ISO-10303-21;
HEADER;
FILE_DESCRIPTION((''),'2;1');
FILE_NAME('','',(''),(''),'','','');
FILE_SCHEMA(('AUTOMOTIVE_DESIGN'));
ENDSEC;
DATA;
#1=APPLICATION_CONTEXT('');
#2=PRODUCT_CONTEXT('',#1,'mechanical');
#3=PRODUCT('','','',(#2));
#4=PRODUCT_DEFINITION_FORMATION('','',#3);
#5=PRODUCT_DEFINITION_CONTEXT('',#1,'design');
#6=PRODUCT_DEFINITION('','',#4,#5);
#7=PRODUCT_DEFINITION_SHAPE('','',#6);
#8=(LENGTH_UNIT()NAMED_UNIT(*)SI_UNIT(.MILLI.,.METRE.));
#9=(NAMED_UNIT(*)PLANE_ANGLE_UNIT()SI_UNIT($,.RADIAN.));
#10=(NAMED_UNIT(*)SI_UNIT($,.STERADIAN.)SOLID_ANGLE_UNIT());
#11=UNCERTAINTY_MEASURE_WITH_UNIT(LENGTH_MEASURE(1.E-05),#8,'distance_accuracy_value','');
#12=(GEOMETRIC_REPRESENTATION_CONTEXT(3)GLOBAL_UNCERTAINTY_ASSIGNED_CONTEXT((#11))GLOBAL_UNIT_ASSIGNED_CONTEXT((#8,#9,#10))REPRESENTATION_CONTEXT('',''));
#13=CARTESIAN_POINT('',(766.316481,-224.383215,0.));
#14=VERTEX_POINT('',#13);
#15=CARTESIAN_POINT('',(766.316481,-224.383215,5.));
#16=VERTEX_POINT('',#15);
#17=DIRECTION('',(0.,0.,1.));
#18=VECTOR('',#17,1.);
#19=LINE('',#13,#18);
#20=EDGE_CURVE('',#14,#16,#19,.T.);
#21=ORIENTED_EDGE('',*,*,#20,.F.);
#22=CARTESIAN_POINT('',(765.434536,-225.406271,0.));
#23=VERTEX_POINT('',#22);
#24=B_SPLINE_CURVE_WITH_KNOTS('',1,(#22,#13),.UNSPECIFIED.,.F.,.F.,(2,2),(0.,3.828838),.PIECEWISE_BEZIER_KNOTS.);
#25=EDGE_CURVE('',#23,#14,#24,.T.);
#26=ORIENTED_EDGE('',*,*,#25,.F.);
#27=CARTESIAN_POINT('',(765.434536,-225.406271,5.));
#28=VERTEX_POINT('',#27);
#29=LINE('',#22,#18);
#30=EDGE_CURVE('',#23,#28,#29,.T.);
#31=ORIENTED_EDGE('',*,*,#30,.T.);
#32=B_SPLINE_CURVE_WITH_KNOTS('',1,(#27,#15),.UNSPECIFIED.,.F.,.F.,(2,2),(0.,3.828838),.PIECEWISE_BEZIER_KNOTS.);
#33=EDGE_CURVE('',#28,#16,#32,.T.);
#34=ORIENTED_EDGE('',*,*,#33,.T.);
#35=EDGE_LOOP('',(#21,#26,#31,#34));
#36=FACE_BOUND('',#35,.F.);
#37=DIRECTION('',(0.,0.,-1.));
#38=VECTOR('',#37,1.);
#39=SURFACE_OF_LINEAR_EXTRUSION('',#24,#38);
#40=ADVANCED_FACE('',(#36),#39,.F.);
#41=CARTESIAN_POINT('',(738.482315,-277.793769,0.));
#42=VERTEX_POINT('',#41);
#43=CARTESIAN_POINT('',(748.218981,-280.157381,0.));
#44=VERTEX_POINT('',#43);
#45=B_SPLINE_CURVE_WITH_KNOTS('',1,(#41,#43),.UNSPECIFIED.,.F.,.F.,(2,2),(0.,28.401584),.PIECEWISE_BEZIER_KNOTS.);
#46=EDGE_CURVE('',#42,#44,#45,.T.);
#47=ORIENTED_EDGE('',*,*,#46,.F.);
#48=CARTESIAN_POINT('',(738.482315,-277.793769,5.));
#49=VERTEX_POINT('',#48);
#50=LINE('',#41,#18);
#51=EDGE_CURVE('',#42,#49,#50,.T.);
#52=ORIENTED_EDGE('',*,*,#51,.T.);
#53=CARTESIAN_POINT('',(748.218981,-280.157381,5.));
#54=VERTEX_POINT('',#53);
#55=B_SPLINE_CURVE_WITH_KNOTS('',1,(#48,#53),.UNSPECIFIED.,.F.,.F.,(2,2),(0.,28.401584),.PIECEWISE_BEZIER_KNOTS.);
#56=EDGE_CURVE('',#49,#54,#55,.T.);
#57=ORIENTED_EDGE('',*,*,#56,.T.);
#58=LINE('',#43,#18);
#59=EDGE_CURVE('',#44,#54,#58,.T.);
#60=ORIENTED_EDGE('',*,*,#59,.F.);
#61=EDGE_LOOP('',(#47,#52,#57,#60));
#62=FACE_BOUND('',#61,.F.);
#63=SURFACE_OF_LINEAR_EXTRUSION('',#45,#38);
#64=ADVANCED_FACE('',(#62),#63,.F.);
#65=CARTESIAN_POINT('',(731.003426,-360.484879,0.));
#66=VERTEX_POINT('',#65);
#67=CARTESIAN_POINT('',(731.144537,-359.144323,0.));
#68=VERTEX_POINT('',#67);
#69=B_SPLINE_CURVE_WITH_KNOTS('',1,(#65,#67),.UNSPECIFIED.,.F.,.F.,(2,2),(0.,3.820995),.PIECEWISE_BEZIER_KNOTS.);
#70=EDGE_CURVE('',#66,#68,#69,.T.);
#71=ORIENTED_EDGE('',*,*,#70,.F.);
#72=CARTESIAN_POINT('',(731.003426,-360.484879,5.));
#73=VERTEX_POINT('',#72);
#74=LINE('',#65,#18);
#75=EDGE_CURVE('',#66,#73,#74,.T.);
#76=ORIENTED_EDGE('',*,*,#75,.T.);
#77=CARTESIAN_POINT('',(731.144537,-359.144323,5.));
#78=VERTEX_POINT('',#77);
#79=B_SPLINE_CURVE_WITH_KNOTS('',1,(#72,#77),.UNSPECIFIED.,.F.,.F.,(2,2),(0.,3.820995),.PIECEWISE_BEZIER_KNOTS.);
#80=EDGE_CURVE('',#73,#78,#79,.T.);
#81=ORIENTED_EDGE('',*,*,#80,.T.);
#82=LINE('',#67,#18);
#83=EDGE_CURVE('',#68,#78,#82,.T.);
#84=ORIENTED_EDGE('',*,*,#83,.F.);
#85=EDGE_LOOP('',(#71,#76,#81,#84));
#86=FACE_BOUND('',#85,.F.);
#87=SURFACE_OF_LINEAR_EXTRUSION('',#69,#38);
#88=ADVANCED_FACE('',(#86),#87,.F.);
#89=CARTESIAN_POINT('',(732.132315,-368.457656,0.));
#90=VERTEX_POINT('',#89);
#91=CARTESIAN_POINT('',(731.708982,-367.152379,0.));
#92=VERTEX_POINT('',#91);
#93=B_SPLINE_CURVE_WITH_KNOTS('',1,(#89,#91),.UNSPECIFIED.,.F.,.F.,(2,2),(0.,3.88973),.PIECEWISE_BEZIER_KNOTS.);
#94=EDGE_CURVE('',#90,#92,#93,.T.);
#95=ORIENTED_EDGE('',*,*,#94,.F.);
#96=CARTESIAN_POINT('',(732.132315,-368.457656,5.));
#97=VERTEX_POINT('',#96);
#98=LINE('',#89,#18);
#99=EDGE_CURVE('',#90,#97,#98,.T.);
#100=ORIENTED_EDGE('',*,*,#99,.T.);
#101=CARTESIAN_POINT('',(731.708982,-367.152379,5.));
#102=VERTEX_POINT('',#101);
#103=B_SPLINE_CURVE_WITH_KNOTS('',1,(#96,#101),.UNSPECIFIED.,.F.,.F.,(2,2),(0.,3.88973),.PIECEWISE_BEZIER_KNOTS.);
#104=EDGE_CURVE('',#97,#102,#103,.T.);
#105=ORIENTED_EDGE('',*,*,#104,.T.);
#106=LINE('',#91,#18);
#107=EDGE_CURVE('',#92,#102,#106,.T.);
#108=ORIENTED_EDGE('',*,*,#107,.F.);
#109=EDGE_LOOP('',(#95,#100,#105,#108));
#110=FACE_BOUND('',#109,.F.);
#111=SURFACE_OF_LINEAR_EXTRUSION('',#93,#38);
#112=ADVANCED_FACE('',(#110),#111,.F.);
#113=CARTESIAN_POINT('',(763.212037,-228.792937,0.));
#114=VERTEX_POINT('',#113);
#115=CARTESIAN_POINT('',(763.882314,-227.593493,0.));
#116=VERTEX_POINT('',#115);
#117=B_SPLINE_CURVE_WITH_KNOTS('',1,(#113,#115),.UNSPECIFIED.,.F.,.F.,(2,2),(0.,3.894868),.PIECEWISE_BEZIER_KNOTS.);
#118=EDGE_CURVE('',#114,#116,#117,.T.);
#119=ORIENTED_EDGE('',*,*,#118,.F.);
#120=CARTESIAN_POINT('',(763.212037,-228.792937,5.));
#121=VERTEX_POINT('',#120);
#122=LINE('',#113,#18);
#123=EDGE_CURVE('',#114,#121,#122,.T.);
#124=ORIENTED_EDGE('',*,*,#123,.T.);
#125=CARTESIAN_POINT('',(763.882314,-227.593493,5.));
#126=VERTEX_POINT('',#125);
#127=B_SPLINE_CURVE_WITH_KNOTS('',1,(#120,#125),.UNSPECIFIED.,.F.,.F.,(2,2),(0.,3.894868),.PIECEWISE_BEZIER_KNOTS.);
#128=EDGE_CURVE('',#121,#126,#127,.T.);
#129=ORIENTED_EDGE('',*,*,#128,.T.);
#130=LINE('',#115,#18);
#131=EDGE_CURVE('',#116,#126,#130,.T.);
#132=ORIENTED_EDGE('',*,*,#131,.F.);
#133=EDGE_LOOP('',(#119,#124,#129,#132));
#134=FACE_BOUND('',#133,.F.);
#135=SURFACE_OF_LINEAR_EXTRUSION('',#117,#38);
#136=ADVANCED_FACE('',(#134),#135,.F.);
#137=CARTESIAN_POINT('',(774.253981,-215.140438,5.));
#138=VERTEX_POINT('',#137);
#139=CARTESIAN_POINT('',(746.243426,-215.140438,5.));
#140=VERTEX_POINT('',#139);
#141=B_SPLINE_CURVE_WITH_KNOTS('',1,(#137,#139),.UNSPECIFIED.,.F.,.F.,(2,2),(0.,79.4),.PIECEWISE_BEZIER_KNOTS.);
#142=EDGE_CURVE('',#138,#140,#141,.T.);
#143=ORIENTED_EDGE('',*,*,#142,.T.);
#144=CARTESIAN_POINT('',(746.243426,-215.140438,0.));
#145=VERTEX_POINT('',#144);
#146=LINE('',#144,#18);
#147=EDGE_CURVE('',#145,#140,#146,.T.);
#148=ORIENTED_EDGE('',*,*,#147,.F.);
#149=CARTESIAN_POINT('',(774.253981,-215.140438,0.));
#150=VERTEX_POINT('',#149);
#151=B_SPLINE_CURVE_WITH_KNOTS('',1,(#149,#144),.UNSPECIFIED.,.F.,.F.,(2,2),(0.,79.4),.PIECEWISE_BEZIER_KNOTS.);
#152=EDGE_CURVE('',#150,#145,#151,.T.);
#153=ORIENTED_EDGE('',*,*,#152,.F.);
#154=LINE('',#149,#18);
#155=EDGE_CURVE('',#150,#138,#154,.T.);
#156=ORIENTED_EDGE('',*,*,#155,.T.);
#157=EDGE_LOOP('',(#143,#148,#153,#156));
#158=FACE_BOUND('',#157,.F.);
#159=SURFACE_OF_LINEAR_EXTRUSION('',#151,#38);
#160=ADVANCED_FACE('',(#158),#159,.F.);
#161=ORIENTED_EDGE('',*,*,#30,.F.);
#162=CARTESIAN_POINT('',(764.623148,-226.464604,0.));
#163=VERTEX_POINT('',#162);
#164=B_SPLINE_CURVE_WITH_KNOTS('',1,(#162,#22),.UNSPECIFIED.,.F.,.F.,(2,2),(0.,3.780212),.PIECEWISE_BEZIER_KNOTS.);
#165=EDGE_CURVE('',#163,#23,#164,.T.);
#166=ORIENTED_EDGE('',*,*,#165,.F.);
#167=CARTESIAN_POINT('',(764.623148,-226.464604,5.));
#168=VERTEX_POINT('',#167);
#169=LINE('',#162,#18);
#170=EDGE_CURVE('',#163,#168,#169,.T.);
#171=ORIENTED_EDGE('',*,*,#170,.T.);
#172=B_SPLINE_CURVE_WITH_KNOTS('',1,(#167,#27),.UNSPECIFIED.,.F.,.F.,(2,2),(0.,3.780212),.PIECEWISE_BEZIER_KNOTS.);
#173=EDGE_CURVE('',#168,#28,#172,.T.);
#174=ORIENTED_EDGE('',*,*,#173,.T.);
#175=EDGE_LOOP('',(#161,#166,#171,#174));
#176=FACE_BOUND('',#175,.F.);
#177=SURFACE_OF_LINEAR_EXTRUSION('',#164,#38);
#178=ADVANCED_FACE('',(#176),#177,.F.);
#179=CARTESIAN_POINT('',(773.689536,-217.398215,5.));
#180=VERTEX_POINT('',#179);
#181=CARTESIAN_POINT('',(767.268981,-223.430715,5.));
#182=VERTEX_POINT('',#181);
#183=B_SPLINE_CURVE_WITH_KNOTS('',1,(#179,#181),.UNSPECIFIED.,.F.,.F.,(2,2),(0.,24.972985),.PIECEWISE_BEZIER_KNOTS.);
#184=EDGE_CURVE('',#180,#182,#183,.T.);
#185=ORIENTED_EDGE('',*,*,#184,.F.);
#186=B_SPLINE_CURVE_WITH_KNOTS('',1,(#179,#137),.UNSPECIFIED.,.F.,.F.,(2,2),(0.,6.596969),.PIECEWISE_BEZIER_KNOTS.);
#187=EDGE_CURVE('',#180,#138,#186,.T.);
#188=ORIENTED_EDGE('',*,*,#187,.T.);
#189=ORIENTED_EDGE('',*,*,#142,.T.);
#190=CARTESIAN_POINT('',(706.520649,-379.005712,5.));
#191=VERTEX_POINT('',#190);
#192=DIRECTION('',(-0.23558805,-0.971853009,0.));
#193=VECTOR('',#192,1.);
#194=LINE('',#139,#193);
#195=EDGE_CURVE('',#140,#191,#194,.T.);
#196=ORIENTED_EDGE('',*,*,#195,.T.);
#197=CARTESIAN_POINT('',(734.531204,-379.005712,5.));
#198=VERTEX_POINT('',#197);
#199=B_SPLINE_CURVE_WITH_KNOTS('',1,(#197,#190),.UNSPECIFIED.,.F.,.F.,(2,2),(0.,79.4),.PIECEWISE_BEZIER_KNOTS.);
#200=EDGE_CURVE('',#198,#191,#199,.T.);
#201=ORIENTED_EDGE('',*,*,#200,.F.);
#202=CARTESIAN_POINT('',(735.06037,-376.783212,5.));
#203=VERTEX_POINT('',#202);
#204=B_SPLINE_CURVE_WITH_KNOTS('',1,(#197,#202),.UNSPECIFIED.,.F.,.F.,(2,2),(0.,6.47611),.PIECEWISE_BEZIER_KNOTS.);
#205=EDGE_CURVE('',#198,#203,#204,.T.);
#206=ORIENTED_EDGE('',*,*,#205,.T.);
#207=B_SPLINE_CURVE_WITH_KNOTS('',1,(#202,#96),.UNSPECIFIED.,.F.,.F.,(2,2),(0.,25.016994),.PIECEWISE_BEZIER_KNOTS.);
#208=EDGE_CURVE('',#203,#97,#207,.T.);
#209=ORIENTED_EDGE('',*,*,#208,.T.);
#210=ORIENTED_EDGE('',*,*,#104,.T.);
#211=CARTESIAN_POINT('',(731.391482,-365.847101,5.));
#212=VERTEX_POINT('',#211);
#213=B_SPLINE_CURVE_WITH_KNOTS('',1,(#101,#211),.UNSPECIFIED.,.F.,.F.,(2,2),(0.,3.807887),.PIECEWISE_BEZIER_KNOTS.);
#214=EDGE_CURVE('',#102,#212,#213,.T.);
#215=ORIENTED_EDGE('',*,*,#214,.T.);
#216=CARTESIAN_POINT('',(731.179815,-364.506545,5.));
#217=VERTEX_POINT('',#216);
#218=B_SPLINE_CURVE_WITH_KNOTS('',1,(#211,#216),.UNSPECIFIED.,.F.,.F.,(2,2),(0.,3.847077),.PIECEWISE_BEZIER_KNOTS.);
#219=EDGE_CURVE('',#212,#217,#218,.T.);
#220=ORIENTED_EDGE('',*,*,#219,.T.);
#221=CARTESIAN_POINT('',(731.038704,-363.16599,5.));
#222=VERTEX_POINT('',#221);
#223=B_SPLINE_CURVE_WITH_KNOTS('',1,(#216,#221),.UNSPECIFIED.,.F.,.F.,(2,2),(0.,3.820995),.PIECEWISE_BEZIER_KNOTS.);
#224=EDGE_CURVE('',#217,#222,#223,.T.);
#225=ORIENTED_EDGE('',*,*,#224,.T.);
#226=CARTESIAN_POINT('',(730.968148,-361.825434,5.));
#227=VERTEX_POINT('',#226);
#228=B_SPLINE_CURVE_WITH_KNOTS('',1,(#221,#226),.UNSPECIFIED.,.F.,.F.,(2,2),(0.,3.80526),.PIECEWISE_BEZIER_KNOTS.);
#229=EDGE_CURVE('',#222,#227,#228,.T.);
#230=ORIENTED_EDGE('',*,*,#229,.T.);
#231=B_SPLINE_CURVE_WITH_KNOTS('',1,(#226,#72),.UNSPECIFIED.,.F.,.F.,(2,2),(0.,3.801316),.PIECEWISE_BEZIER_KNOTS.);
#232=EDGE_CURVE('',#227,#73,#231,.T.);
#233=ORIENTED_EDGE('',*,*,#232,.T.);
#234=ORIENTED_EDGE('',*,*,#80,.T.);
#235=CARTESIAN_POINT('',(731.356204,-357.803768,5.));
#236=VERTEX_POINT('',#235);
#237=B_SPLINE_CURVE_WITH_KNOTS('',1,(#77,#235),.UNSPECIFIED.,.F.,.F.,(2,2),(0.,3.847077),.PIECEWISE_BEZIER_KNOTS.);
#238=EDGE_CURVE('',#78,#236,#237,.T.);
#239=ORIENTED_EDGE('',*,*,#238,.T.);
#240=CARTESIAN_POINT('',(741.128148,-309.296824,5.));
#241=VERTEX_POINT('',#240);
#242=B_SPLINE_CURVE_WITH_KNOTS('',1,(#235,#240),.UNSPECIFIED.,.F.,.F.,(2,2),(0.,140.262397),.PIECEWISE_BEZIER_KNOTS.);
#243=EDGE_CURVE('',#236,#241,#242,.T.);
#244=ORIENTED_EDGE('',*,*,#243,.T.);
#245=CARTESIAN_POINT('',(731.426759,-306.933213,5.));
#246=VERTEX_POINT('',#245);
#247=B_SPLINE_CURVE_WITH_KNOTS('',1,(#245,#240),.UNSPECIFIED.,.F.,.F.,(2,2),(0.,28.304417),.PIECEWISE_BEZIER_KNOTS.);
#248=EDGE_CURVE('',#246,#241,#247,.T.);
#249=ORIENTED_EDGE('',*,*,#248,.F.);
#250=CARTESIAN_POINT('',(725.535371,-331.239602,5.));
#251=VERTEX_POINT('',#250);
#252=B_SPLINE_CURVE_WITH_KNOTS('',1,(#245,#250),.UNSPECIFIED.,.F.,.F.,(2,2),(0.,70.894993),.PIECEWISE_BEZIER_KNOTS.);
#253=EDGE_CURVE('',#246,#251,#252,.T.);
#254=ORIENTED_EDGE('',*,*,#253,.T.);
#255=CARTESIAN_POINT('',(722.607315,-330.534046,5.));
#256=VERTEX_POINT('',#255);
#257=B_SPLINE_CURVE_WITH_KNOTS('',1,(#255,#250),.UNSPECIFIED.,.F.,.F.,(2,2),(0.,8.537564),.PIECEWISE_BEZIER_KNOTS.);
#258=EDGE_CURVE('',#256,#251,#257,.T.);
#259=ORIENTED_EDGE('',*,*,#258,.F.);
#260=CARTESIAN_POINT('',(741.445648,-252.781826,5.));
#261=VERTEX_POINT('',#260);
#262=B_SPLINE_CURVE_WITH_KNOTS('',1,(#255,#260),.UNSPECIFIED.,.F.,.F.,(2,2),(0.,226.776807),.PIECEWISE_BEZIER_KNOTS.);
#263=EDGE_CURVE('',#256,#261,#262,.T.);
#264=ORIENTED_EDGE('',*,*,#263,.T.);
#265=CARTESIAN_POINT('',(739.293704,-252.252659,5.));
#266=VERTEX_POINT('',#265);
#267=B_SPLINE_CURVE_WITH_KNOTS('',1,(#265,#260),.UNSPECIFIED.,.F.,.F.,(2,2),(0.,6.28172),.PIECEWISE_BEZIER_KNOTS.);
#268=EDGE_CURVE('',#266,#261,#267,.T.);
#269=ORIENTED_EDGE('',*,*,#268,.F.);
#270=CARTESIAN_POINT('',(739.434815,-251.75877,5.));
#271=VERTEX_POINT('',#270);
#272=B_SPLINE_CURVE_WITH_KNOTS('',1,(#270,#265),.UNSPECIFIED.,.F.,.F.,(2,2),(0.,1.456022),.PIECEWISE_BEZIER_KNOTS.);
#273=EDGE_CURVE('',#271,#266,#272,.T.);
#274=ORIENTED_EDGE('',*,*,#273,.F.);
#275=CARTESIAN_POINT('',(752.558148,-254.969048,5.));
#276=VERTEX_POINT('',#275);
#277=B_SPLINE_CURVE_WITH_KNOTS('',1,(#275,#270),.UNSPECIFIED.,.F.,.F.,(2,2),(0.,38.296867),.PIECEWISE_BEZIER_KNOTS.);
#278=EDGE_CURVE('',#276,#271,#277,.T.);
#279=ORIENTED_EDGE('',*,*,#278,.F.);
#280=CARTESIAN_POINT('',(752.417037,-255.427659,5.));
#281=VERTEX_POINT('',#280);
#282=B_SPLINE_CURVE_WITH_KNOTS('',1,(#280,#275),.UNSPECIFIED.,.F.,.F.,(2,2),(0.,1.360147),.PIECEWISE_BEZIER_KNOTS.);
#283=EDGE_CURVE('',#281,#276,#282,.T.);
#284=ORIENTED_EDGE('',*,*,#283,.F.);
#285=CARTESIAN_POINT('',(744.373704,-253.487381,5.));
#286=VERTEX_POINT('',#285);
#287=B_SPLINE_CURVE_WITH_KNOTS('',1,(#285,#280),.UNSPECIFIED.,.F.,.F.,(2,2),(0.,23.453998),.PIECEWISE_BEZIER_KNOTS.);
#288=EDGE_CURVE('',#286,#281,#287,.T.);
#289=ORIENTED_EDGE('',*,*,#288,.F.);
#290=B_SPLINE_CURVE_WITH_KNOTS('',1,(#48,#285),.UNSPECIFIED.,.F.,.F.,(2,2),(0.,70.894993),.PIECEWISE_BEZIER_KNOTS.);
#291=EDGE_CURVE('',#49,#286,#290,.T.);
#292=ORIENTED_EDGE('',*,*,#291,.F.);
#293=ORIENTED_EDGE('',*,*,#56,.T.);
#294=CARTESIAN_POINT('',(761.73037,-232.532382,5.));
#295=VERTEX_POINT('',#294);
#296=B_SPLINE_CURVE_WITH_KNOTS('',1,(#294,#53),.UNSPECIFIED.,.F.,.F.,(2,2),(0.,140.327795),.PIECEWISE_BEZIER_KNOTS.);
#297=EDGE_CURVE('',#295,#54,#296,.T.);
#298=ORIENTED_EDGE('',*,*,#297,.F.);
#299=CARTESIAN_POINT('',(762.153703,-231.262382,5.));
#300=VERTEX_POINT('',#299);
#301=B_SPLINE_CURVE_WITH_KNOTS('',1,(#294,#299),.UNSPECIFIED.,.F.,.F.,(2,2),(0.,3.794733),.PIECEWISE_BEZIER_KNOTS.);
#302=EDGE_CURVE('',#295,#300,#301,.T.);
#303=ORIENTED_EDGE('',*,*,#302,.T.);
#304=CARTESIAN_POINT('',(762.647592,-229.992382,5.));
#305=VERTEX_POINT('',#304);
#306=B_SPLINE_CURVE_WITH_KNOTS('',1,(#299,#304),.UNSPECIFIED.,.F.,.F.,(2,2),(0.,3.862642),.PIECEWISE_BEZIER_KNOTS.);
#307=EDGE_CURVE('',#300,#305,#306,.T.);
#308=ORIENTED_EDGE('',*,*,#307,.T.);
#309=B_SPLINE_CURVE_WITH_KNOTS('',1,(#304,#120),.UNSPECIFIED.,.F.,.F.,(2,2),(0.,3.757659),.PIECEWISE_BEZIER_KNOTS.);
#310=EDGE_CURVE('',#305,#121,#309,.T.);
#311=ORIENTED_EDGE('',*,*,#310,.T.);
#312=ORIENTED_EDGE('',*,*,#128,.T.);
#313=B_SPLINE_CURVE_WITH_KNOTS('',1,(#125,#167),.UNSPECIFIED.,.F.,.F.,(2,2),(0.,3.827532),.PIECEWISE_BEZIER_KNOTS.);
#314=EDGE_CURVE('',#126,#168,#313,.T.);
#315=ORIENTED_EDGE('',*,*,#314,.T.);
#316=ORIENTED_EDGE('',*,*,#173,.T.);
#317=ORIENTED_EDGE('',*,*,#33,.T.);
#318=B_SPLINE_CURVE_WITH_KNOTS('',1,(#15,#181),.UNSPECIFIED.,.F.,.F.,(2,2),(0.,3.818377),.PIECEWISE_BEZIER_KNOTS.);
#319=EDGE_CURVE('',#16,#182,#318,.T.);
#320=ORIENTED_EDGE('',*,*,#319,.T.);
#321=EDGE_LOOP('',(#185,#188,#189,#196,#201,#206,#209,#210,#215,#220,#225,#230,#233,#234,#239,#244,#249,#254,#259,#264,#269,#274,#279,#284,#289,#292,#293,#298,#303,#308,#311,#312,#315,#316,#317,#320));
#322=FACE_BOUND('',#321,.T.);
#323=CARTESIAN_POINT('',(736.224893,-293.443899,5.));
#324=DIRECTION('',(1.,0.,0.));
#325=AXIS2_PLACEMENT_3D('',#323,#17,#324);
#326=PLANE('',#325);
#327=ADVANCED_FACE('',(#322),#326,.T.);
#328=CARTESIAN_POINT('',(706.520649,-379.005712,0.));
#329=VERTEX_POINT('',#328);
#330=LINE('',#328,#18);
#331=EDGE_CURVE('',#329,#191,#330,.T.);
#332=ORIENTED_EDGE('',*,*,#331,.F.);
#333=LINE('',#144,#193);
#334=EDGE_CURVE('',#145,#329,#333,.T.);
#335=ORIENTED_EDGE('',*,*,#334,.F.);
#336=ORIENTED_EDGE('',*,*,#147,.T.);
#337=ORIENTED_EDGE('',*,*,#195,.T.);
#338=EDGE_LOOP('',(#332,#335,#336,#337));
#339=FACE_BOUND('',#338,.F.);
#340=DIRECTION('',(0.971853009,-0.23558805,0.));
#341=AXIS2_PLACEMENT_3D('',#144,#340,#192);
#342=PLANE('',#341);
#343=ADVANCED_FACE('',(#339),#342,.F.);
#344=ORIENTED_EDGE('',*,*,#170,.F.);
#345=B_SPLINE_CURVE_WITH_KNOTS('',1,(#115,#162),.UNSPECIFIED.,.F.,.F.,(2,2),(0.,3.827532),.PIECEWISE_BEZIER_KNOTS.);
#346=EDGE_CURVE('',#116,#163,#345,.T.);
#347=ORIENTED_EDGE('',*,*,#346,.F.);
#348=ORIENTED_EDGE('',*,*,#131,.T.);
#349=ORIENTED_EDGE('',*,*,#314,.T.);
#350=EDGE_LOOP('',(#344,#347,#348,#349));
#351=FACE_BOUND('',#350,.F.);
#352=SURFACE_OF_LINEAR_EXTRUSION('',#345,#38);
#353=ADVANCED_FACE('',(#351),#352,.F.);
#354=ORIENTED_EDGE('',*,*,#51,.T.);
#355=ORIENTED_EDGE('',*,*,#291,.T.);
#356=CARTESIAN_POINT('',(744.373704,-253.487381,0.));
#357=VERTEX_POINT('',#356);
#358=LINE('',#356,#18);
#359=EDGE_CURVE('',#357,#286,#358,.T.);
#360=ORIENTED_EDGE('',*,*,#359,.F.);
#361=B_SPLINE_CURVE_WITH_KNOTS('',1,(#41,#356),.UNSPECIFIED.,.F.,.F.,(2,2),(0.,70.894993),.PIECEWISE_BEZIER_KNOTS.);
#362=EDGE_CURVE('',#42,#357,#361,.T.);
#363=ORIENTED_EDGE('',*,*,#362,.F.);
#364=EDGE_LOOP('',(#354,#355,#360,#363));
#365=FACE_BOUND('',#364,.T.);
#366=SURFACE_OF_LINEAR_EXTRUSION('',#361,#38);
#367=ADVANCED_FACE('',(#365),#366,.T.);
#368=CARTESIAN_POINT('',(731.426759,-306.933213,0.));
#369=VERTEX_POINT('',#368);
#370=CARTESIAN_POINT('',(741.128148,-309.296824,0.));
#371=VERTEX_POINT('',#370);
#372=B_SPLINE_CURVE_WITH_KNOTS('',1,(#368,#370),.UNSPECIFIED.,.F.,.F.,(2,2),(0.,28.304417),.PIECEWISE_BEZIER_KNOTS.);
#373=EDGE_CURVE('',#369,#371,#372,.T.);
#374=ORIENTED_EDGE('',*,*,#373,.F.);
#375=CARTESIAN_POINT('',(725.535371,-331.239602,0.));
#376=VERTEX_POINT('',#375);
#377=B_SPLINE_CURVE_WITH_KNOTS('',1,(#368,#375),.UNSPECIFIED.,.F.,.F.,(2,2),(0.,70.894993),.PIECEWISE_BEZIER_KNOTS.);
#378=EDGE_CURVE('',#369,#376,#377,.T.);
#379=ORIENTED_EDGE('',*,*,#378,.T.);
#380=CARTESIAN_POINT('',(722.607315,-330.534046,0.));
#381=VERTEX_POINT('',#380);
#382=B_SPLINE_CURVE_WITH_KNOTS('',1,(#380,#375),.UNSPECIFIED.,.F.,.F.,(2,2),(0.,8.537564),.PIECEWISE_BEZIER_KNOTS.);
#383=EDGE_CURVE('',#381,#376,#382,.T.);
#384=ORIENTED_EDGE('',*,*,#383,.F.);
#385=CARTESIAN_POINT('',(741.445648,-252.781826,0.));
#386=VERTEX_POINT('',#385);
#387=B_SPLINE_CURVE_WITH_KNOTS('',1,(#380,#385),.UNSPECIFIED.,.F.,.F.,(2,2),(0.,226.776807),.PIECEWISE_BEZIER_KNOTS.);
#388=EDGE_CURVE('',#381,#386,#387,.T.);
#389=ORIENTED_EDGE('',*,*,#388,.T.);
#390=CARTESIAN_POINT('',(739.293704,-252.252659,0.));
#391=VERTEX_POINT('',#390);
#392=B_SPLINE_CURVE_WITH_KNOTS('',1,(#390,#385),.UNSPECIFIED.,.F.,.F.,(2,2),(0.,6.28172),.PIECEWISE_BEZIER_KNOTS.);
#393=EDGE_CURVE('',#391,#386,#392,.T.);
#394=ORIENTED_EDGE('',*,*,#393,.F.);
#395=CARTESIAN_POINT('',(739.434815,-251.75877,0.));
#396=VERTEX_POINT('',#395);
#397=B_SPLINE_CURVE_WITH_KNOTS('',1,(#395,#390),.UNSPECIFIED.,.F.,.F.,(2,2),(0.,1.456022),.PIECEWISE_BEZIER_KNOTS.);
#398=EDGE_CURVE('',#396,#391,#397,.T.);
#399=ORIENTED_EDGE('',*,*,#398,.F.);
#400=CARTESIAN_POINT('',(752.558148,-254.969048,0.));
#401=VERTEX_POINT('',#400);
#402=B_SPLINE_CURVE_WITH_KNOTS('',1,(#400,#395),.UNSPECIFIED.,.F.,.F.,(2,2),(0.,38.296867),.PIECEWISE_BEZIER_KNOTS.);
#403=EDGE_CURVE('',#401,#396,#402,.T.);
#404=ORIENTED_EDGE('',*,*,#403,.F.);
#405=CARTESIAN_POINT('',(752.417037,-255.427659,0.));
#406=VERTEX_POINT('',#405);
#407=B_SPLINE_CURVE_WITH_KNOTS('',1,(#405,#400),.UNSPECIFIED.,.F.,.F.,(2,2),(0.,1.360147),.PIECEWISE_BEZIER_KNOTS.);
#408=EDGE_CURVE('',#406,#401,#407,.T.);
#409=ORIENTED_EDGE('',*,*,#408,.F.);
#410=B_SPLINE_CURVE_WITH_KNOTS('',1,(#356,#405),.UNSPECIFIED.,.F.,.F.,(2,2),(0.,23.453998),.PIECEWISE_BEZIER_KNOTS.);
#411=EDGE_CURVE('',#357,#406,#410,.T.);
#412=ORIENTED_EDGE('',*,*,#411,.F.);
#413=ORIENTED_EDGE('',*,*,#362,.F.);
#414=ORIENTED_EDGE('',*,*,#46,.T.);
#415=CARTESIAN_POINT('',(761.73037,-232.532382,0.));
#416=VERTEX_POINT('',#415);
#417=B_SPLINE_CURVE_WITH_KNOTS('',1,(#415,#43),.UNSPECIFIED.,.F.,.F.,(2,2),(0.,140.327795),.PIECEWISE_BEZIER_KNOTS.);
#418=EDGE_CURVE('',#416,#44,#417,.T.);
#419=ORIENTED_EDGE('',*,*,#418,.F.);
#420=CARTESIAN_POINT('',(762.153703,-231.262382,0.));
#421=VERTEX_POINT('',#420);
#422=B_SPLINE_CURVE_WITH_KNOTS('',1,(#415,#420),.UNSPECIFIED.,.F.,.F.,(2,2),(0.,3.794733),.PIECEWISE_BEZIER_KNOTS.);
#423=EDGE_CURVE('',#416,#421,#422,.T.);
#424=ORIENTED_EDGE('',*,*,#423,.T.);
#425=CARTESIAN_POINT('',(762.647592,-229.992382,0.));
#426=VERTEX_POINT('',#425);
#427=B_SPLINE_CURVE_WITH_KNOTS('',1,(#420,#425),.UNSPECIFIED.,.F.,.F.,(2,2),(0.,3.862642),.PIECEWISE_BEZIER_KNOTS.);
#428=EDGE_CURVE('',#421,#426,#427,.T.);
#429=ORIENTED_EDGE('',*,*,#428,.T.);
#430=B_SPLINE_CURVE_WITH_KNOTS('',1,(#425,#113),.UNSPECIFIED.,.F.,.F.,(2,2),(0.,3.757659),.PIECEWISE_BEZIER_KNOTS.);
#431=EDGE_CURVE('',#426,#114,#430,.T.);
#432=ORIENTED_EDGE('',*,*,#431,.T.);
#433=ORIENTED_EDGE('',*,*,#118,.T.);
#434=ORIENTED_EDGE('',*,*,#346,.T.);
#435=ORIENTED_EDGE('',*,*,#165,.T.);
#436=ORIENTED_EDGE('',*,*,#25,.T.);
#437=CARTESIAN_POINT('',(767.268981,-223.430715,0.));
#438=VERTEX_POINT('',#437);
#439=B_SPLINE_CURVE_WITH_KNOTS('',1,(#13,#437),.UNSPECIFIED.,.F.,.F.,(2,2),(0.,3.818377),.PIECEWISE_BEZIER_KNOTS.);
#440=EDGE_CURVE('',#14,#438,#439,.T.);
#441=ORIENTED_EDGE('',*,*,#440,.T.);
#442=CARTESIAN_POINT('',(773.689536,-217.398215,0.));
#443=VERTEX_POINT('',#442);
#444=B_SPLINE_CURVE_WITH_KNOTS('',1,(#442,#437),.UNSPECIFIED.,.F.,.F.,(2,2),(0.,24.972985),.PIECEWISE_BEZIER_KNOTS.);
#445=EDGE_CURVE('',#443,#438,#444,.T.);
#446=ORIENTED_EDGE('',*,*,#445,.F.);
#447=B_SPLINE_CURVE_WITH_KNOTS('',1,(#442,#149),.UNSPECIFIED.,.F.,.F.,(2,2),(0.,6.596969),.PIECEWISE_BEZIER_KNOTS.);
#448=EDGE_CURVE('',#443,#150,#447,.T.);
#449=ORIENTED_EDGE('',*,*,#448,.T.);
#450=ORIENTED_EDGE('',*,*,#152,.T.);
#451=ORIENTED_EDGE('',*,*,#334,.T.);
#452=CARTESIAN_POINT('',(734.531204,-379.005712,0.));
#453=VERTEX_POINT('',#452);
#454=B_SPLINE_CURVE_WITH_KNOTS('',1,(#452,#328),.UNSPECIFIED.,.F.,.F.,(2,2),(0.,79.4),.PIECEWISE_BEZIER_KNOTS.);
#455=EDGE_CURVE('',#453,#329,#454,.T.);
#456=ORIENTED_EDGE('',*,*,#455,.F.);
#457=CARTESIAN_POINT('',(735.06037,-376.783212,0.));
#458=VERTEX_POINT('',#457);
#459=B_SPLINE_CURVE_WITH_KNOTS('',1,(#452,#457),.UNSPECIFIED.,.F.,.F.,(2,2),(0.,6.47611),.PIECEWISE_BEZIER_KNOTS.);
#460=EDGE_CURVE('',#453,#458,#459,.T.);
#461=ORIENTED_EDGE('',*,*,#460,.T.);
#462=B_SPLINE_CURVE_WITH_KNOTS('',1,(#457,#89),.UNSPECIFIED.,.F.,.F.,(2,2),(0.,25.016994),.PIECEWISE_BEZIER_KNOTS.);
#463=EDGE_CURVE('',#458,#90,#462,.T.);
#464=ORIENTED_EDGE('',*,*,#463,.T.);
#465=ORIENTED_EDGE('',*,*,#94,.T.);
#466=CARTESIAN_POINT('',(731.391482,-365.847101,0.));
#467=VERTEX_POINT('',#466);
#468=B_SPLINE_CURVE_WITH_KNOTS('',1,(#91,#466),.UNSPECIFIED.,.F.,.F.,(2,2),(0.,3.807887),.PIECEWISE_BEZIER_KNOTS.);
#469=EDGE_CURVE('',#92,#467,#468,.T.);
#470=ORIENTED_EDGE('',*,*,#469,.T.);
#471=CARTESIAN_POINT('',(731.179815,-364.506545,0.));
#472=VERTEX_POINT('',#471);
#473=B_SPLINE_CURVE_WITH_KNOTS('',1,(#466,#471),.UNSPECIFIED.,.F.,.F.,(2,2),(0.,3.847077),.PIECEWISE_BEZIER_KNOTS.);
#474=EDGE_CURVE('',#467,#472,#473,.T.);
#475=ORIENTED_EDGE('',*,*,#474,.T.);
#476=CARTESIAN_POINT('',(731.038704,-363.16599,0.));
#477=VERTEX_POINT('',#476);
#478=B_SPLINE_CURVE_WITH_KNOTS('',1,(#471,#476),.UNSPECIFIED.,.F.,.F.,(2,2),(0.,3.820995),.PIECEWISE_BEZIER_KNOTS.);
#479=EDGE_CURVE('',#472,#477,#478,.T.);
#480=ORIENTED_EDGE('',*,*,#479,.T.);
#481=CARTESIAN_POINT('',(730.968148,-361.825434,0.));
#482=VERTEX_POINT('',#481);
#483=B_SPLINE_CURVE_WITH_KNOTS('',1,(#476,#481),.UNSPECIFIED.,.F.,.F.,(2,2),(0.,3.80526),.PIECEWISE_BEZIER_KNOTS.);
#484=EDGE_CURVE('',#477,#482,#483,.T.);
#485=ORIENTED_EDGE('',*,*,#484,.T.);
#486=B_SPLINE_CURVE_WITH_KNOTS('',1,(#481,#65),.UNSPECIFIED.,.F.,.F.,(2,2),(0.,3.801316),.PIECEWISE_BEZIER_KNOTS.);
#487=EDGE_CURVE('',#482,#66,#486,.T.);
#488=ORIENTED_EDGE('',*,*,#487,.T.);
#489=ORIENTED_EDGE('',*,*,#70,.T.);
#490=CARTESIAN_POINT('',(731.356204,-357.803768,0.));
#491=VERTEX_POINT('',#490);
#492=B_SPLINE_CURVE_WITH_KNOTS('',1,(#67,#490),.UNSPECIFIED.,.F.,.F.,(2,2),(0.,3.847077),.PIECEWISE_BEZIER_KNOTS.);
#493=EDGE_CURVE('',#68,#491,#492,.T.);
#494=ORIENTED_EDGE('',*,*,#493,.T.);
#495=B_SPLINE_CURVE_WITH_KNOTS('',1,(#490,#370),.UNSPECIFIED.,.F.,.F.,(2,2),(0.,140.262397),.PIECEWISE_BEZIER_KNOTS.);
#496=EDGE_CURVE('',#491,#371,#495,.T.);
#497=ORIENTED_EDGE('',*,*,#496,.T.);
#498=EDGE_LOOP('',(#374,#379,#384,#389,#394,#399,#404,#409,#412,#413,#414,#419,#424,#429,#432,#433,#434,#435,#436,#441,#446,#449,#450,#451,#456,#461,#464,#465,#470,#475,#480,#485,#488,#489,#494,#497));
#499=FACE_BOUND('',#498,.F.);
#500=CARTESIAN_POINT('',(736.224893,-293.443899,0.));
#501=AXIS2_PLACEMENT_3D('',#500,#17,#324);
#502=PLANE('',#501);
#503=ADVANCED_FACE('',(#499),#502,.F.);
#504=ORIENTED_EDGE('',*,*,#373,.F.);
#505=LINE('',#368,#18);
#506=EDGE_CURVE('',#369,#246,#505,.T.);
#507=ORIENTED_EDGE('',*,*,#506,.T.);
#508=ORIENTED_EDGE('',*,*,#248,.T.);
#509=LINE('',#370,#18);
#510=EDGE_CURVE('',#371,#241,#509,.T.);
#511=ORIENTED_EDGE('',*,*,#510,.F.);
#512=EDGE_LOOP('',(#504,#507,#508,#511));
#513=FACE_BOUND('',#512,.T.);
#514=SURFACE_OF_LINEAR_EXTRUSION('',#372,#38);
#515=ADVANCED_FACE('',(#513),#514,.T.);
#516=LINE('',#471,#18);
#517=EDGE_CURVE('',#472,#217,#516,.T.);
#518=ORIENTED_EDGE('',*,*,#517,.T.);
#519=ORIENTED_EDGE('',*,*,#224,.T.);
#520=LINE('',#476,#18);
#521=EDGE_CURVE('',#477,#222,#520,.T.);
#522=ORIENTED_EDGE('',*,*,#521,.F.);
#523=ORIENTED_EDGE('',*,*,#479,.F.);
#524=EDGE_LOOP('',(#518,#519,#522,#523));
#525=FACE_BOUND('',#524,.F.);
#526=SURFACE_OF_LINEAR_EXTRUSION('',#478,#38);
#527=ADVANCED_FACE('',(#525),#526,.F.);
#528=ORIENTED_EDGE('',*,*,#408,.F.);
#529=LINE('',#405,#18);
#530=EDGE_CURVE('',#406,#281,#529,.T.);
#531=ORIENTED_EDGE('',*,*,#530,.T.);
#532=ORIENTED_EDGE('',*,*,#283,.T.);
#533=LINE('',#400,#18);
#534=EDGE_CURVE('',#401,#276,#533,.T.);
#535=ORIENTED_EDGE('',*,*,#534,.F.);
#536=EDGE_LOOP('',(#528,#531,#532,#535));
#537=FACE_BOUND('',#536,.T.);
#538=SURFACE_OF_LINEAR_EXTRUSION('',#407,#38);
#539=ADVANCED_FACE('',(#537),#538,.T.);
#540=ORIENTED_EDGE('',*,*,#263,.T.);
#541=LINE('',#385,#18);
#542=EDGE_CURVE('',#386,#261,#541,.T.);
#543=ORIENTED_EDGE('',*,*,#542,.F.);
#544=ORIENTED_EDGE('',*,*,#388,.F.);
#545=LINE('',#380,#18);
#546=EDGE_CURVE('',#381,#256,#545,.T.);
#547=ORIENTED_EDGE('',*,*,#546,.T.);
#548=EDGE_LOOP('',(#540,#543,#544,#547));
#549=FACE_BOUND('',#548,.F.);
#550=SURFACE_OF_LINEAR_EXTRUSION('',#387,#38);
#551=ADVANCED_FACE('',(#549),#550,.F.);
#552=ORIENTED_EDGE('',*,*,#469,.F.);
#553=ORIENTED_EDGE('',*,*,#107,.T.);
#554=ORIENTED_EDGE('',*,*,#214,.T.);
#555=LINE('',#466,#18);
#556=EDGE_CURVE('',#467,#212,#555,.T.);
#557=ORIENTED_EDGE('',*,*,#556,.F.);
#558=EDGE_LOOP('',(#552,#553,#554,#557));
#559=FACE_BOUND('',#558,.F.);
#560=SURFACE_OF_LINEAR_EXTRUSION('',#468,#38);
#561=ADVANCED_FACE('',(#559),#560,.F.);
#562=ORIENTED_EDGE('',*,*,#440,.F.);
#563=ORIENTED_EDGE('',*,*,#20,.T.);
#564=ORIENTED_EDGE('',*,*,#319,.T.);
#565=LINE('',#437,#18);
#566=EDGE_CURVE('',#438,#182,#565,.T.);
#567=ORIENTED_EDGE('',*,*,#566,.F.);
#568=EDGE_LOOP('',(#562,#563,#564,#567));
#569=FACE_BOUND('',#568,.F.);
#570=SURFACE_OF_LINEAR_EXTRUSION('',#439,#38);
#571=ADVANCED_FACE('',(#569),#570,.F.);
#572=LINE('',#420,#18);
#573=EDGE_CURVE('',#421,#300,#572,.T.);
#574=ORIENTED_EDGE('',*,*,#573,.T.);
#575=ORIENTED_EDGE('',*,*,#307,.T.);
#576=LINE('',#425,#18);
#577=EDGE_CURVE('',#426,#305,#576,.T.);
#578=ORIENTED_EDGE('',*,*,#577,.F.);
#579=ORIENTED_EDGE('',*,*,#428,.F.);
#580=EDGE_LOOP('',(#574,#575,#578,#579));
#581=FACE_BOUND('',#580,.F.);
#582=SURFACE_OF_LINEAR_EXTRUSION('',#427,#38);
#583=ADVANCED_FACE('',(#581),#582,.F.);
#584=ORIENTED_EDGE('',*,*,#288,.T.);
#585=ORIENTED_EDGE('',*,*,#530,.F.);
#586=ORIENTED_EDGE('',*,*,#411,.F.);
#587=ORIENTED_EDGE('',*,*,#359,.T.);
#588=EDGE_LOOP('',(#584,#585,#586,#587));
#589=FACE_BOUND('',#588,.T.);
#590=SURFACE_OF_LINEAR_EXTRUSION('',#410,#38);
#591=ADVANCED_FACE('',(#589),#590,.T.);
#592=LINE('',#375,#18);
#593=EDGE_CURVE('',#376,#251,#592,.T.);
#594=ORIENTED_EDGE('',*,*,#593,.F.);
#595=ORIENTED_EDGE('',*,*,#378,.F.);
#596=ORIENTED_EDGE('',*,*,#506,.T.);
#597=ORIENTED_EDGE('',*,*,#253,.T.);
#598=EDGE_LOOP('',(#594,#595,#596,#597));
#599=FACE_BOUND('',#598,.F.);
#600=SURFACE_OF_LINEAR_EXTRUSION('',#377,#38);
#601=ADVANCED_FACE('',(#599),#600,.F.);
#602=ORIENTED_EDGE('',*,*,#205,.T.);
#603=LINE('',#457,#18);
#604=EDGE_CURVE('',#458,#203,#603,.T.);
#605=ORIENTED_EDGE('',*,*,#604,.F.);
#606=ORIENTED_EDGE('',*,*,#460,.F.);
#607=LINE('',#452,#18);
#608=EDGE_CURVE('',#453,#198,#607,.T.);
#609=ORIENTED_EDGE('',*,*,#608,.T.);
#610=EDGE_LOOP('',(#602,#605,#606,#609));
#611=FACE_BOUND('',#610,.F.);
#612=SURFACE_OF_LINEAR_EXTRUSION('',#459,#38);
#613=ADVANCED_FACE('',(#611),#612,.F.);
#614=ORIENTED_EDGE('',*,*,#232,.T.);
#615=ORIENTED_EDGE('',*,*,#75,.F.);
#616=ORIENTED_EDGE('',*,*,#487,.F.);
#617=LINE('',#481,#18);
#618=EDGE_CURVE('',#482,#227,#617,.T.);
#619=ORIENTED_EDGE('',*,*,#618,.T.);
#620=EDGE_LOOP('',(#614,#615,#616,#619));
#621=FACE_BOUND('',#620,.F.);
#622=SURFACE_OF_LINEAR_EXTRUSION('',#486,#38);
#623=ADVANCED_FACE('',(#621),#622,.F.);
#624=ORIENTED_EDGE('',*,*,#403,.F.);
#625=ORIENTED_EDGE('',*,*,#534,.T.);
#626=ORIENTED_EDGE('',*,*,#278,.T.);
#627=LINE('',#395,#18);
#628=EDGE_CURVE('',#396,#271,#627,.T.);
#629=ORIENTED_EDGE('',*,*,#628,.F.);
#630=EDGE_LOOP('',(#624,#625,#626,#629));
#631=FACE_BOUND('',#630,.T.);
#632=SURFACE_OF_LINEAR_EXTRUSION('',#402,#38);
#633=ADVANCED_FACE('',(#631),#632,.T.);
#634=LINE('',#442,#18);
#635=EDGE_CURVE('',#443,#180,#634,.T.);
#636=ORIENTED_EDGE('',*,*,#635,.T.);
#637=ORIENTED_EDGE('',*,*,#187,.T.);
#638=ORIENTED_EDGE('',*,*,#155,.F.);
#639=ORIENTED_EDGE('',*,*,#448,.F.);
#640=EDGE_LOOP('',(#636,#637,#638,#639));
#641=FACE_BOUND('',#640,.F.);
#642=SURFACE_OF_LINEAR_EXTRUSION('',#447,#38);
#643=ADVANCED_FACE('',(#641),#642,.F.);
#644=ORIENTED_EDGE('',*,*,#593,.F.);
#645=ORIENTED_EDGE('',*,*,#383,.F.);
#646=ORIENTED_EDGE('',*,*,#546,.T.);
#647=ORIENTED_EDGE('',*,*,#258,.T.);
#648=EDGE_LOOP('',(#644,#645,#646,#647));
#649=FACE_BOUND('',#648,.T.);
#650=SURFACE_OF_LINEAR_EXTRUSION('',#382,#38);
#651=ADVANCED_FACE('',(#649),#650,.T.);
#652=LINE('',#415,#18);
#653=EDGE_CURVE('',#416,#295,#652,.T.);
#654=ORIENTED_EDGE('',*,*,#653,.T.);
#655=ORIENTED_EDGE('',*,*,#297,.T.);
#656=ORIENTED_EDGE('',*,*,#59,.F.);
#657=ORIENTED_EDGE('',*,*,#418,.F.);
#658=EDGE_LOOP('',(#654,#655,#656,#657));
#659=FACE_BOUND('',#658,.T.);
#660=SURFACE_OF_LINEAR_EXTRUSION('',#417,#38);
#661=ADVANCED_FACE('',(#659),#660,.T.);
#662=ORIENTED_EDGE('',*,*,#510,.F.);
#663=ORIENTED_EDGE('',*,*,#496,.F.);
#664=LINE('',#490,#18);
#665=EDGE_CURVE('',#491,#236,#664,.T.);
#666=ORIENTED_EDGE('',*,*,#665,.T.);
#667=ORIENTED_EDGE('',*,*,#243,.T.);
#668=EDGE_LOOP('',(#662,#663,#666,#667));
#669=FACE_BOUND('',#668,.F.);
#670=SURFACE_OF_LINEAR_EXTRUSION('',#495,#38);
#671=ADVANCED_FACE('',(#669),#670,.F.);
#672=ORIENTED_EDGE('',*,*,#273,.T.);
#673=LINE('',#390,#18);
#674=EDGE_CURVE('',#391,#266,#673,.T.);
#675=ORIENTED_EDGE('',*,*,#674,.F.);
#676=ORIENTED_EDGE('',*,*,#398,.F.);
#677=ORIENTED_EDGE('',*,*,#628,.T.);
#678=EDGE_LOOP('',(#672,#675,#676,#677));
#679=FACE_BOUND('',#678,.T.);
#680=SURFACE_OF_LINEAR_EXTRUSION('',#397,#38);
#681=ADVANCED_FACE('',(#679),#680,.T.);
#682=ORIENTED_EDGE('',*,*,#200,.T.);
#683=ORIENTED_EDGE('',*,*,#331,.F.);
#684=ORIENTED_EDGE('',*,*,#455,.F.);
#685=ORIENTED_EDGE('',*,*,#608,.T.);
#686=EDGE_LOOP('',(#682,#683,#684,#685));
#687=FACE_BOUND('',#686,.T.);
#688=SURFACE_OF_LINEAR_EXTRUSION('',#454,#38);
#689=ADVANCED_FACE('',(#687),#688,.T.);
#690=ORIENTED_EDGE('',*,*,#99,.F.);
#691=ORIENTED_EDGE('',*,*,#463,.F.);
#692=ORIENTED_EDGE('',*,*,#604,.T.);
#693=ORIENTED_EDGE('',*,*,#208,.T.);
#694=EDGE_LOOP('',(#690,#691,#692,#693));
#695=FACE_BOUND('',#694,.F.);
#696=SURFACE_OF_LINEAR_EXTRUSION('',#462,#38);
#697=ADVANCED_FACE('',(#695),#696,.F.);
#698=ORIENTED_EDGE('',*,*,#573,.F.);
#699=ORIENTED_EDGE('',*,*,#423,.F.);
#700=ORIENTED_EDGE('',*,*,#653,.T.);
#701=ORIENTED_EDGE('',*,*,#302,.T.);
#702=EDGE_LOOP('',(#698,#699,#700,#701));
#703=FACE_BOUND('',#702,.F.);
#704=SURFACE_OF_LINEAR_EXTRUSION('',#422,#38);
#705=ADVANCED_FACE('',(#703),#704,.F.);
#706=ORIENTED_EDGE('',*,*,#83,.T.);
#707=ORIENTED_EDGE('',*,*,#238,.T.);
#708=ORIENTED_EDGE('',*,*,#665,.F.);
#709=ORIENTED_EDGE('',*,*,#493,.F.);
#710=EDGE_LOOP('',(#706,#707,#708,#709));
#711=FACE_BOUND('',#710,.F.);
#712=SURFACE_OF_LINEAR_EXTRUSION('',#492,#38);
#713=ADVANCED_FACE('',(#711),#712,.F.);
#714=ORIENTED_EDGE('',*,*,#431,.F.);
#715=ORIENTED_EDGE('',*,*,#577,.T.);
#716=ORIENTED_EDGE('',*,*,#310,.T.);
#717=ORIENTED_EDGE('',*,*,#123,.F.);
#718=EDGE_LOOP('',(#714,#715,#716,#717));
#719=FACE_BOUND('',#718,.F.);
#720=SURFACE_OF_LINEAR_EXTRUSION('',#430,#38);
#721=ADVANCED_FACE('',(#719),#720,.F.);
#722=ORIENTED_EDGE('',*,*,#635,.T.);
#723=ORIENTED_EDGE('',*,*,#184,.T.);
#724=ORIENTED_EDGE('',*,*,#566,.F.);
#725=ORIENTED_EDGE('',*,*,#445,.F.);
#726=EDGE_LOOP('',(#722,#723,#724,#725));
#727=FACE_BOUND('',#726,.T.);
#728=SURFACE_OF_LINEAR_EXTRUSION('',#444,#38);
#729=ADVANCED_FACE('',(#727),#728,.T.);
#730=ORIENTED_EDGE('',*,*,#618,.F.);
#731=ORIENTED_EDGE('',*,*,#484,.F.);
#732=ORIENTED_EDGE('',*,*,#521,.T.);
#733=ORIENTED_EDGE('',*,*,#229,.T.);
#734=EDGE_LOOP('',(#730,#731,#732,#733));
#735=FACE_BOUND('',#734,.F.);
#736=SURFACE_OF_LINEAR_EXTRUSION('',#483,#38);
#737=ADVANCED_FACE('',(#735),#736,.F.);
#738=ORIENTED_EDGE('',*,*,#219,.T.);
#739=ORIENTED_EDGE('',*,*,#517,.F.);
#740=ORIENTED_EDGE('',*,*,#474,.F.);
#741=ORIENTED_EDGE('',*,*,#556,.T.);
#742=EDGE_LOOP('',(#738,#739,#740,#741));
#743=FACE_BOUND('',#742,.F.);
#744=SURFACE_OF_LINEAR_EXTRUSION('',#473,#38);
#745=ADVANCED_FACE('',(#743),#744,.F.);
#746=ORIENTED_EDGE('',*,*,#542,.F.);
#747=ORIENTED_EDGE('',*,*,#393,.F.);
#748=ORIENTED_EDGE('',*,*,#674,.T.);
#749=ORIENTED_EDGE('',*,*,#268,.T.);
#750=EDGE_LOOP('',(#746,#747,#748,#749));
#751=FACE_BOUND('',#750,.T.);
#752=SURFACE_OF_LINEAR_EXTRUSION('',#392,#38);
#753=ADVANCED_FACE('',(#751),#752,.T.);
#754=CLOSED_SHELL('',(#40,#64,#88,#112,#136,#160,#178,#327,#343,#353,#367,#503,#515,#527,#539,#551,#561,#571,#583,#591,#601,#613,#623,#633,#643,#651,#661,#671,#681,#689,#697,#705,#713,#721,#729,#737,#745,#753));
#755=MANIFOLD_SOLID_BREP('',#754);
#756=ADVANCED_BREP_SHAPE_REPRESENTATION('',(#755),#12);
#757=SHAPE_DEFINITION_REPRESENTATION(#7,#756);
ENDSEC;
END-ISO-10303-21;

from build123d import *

# Parameters (mm, degrees)
PAD007_DEPTH = 5


with BuildPart() as part:
    # Sketch007 → Pad007 (new body)
    with BuildSketch(Plane.XY):
        with BuildLine():
            add(Edge.make_bspline(
                [(734.531204, -379.005712), (735.06037, -376.783212)],
                knots=[0, 0, 6.47611, 6.47611], degree=1))
            add(Edge.make_bspline(
                [(735.06037, -376.783212), (732.132315, -368.457656)],
                knots=[0, 0, 25.016994, 25.016994], degree=1))
            add(Edge.make_bspline(
                [(732.132315, -368.457656), (731.708982, -367.152379)],
                knots=[0, 0, 3.88973, 3.88973], degree=1))
            add(Edge.make_bspline(
                [(731.708982, -367.152379), (731.391482, -365.847101)],
                knots=[0, 0, 3.807887, 3.807887], degree=1))
            add(Edge.make_bspline(
                [(731.391482, -365.847101), (731.179815, -364.506545)],
                knots=[0, 0, 3.847077, 3.847077], degree=1))
            add(Edge.make_bspline(
                [(731.179815, -364.506545), (731.038704, -363.16599)],
                knots=[0, 0, 3.820995, 3.820995], degree=1))
            add(Edge.make_bspline(
                [(731.038704, -363.16599), (730.968148, -361.825434)],
                knots=[0, 0, 3.80526, 3.80526], degree=1))
            add(Edge.make_bspline(
                [(730.968148, -361.825434), (731.003426, -360.484879)],
                knots=[0, 0, 3.801316, 3.801316], degree=1))
            add(Edge.make_bspline(
                [(731.003426, -360.484879), (731.144537, -359.144323)],
                knots=[0, 0, 3.820995, 3.820995], degree=1))
            add(Edge.make_bspline(
                [(731.144537, -359.144323), (731.356204, -357.803768)],
                knots=[0, 0, 3.847077, 3.847077], degree=1))
            add(Edge.make_bspline(
                [(731.356204, -357.803768), (741.128148, -309.296824)],
                knots=[0, 0, 140.262397, 140.262397], degree=1))
            add(Edge.make_bspline(
                [(731.426759, -306.933213), (741.128148, -309.296824)],
                knots=[0, 0, 28.304417, 28.304417], degree=1))
            add(Edge.make_bspline(
                [(731.426759, -306.933213), (725.535371, -331.239602)],
                knots=[0, 0, 70.894993, 70.894993], degree=1))
            add(Edge.make_bspline(
                [(722.607315, -330.534046), (725.535371, -331.239602)],
                knots=[0, 0, 8.537564, 8.537564], degree=1))
            add(Edge.make_bspline(
                [(722.607315, -330.534046), (741.445648, -252.781826)],
                knots=[0, 0, 226.776807, 226.776807], degree=1))
            add(Edge.make_bspline(
                [(739.293704, -252.252659), (741.445648, -252.781826)],
                knots=[0, 0, 6.28172, 6.28172], degree=1))
            add(Edge.make_bspline(
                [(739.434815, -251.75877), (739.293704, -252.252659)],
                knots=[0, 0, 1.456022, 1.456022], degree=1))
            add(Edge.make_bspline(
                [(752.558148, -254.969048), (739.434815, -251.75877)],
                knots=[0, 0, 38.296867, 38.296867], degree=1))
            add(Edge.make_bspline(
                [(752.417037, -255.427659), (752.558148, -254.969048)],
                knots=[0, 0, 1.360147, 1.360147], degree=1))
            add(Edge.make_bspline(
                [(744.373704, -253.487381), (752.417037, -255.427659)],
                knots=[0, 0, 23.453998, 23.453998], degree=1))
            add(Edge.make_bspline(
                [(738.482315, -277.793769), (744.373704, -253.487381)],
                knots=[0, 0, 70.894993, 70.894993], degree=1))
            add(Edge.make_bspline(
                [(738.482315, -277.793769), (748.218981, -280.157381)],
                knots=[0, 0, 28.401584, 28.401584], degree=1))
            add(Edge.make_bspline(
                [(761.73037, -232.532382), (748.218981, -280.157381)],
                knots=[0, 0, 140.327795, 140.327795], degree=1))
            add(Edge.make_bspline(
                [(761.73037, -232.532382), (762.153703, -231.262382)],
                knots=[0, 0, 3.794733, 3.794733], degree=1))
            add(Edge.make_bspline(
                [(762.153703, -231.262382), (762.647592, -229.992382)],
                knots=[0, 0, 3.862642, 3.862642], degree=1))
            add(Edge.make_bspline(
                [(762.647592, -229.992382), (763.212037, -228.792937)],
                knots=[0, 0, 3.757659, 3.757659], degree=1))
            add(Edge.make_bspline(
                [(763.212037, -228.792937), (763.882314, -227.593493)],
                knots=[0, 0, 3.894868, 3.894868], degree=1))
            add(Edge.make_bspline(
                [(763.882314, -227.593493), (764.623148, -226.464604)],
                knots=[0, 0, 3.827532, 3.827532], degree=1))
            add(Edge.make_bspline(
                [(764.623148, -226.464604), (765.434536, -225.406271)],
                knots=[0, 0, 3.780212, 3.780212], degree=1))
            add(Edge.make_bspline(
                [(765.434536, -225.406271), (766.316481, -224.383215)],
                knots=[0, 0, 3.828838, 3.828838], degree=1))
            add(Edge.make_bspline(
                [(766.316481, -224.383215), (767.268981, -223.430715)],
                knots=[0, 0, 3.818377, 3.818377], degree=1))
            add(Edge.make_bspline(
                [(773.689536, -217.398215), (767.268981, -223.430715)],
                knots=[0, 0, 24.972985, 24.972985], degree=1))
            add(Edge.make_bspline(
                [(773.689536, -217.398215), (774.253981, -215.140438)],
                knots=[0, 0, 6.596969, 6.596969], degree=1))
            add(Edge.make_bspline(
                [(774.253981, -215.140438), (746.243426, -215.140438)],
                knots=[0, 0, 79.4, 79.4], degree=1))
            Line((746.243426, -215.140438), (706.520649, -379.005712))
            add(Edge.make_bspline(
                [(734.531204, -379.005712), (706.520649, -379.005712)],
                knots=[0, 0, 79.4, 79.4], degree=1))
        make_face()
    extrude(amount=PAD007_DEPTH)


solid = part.part
